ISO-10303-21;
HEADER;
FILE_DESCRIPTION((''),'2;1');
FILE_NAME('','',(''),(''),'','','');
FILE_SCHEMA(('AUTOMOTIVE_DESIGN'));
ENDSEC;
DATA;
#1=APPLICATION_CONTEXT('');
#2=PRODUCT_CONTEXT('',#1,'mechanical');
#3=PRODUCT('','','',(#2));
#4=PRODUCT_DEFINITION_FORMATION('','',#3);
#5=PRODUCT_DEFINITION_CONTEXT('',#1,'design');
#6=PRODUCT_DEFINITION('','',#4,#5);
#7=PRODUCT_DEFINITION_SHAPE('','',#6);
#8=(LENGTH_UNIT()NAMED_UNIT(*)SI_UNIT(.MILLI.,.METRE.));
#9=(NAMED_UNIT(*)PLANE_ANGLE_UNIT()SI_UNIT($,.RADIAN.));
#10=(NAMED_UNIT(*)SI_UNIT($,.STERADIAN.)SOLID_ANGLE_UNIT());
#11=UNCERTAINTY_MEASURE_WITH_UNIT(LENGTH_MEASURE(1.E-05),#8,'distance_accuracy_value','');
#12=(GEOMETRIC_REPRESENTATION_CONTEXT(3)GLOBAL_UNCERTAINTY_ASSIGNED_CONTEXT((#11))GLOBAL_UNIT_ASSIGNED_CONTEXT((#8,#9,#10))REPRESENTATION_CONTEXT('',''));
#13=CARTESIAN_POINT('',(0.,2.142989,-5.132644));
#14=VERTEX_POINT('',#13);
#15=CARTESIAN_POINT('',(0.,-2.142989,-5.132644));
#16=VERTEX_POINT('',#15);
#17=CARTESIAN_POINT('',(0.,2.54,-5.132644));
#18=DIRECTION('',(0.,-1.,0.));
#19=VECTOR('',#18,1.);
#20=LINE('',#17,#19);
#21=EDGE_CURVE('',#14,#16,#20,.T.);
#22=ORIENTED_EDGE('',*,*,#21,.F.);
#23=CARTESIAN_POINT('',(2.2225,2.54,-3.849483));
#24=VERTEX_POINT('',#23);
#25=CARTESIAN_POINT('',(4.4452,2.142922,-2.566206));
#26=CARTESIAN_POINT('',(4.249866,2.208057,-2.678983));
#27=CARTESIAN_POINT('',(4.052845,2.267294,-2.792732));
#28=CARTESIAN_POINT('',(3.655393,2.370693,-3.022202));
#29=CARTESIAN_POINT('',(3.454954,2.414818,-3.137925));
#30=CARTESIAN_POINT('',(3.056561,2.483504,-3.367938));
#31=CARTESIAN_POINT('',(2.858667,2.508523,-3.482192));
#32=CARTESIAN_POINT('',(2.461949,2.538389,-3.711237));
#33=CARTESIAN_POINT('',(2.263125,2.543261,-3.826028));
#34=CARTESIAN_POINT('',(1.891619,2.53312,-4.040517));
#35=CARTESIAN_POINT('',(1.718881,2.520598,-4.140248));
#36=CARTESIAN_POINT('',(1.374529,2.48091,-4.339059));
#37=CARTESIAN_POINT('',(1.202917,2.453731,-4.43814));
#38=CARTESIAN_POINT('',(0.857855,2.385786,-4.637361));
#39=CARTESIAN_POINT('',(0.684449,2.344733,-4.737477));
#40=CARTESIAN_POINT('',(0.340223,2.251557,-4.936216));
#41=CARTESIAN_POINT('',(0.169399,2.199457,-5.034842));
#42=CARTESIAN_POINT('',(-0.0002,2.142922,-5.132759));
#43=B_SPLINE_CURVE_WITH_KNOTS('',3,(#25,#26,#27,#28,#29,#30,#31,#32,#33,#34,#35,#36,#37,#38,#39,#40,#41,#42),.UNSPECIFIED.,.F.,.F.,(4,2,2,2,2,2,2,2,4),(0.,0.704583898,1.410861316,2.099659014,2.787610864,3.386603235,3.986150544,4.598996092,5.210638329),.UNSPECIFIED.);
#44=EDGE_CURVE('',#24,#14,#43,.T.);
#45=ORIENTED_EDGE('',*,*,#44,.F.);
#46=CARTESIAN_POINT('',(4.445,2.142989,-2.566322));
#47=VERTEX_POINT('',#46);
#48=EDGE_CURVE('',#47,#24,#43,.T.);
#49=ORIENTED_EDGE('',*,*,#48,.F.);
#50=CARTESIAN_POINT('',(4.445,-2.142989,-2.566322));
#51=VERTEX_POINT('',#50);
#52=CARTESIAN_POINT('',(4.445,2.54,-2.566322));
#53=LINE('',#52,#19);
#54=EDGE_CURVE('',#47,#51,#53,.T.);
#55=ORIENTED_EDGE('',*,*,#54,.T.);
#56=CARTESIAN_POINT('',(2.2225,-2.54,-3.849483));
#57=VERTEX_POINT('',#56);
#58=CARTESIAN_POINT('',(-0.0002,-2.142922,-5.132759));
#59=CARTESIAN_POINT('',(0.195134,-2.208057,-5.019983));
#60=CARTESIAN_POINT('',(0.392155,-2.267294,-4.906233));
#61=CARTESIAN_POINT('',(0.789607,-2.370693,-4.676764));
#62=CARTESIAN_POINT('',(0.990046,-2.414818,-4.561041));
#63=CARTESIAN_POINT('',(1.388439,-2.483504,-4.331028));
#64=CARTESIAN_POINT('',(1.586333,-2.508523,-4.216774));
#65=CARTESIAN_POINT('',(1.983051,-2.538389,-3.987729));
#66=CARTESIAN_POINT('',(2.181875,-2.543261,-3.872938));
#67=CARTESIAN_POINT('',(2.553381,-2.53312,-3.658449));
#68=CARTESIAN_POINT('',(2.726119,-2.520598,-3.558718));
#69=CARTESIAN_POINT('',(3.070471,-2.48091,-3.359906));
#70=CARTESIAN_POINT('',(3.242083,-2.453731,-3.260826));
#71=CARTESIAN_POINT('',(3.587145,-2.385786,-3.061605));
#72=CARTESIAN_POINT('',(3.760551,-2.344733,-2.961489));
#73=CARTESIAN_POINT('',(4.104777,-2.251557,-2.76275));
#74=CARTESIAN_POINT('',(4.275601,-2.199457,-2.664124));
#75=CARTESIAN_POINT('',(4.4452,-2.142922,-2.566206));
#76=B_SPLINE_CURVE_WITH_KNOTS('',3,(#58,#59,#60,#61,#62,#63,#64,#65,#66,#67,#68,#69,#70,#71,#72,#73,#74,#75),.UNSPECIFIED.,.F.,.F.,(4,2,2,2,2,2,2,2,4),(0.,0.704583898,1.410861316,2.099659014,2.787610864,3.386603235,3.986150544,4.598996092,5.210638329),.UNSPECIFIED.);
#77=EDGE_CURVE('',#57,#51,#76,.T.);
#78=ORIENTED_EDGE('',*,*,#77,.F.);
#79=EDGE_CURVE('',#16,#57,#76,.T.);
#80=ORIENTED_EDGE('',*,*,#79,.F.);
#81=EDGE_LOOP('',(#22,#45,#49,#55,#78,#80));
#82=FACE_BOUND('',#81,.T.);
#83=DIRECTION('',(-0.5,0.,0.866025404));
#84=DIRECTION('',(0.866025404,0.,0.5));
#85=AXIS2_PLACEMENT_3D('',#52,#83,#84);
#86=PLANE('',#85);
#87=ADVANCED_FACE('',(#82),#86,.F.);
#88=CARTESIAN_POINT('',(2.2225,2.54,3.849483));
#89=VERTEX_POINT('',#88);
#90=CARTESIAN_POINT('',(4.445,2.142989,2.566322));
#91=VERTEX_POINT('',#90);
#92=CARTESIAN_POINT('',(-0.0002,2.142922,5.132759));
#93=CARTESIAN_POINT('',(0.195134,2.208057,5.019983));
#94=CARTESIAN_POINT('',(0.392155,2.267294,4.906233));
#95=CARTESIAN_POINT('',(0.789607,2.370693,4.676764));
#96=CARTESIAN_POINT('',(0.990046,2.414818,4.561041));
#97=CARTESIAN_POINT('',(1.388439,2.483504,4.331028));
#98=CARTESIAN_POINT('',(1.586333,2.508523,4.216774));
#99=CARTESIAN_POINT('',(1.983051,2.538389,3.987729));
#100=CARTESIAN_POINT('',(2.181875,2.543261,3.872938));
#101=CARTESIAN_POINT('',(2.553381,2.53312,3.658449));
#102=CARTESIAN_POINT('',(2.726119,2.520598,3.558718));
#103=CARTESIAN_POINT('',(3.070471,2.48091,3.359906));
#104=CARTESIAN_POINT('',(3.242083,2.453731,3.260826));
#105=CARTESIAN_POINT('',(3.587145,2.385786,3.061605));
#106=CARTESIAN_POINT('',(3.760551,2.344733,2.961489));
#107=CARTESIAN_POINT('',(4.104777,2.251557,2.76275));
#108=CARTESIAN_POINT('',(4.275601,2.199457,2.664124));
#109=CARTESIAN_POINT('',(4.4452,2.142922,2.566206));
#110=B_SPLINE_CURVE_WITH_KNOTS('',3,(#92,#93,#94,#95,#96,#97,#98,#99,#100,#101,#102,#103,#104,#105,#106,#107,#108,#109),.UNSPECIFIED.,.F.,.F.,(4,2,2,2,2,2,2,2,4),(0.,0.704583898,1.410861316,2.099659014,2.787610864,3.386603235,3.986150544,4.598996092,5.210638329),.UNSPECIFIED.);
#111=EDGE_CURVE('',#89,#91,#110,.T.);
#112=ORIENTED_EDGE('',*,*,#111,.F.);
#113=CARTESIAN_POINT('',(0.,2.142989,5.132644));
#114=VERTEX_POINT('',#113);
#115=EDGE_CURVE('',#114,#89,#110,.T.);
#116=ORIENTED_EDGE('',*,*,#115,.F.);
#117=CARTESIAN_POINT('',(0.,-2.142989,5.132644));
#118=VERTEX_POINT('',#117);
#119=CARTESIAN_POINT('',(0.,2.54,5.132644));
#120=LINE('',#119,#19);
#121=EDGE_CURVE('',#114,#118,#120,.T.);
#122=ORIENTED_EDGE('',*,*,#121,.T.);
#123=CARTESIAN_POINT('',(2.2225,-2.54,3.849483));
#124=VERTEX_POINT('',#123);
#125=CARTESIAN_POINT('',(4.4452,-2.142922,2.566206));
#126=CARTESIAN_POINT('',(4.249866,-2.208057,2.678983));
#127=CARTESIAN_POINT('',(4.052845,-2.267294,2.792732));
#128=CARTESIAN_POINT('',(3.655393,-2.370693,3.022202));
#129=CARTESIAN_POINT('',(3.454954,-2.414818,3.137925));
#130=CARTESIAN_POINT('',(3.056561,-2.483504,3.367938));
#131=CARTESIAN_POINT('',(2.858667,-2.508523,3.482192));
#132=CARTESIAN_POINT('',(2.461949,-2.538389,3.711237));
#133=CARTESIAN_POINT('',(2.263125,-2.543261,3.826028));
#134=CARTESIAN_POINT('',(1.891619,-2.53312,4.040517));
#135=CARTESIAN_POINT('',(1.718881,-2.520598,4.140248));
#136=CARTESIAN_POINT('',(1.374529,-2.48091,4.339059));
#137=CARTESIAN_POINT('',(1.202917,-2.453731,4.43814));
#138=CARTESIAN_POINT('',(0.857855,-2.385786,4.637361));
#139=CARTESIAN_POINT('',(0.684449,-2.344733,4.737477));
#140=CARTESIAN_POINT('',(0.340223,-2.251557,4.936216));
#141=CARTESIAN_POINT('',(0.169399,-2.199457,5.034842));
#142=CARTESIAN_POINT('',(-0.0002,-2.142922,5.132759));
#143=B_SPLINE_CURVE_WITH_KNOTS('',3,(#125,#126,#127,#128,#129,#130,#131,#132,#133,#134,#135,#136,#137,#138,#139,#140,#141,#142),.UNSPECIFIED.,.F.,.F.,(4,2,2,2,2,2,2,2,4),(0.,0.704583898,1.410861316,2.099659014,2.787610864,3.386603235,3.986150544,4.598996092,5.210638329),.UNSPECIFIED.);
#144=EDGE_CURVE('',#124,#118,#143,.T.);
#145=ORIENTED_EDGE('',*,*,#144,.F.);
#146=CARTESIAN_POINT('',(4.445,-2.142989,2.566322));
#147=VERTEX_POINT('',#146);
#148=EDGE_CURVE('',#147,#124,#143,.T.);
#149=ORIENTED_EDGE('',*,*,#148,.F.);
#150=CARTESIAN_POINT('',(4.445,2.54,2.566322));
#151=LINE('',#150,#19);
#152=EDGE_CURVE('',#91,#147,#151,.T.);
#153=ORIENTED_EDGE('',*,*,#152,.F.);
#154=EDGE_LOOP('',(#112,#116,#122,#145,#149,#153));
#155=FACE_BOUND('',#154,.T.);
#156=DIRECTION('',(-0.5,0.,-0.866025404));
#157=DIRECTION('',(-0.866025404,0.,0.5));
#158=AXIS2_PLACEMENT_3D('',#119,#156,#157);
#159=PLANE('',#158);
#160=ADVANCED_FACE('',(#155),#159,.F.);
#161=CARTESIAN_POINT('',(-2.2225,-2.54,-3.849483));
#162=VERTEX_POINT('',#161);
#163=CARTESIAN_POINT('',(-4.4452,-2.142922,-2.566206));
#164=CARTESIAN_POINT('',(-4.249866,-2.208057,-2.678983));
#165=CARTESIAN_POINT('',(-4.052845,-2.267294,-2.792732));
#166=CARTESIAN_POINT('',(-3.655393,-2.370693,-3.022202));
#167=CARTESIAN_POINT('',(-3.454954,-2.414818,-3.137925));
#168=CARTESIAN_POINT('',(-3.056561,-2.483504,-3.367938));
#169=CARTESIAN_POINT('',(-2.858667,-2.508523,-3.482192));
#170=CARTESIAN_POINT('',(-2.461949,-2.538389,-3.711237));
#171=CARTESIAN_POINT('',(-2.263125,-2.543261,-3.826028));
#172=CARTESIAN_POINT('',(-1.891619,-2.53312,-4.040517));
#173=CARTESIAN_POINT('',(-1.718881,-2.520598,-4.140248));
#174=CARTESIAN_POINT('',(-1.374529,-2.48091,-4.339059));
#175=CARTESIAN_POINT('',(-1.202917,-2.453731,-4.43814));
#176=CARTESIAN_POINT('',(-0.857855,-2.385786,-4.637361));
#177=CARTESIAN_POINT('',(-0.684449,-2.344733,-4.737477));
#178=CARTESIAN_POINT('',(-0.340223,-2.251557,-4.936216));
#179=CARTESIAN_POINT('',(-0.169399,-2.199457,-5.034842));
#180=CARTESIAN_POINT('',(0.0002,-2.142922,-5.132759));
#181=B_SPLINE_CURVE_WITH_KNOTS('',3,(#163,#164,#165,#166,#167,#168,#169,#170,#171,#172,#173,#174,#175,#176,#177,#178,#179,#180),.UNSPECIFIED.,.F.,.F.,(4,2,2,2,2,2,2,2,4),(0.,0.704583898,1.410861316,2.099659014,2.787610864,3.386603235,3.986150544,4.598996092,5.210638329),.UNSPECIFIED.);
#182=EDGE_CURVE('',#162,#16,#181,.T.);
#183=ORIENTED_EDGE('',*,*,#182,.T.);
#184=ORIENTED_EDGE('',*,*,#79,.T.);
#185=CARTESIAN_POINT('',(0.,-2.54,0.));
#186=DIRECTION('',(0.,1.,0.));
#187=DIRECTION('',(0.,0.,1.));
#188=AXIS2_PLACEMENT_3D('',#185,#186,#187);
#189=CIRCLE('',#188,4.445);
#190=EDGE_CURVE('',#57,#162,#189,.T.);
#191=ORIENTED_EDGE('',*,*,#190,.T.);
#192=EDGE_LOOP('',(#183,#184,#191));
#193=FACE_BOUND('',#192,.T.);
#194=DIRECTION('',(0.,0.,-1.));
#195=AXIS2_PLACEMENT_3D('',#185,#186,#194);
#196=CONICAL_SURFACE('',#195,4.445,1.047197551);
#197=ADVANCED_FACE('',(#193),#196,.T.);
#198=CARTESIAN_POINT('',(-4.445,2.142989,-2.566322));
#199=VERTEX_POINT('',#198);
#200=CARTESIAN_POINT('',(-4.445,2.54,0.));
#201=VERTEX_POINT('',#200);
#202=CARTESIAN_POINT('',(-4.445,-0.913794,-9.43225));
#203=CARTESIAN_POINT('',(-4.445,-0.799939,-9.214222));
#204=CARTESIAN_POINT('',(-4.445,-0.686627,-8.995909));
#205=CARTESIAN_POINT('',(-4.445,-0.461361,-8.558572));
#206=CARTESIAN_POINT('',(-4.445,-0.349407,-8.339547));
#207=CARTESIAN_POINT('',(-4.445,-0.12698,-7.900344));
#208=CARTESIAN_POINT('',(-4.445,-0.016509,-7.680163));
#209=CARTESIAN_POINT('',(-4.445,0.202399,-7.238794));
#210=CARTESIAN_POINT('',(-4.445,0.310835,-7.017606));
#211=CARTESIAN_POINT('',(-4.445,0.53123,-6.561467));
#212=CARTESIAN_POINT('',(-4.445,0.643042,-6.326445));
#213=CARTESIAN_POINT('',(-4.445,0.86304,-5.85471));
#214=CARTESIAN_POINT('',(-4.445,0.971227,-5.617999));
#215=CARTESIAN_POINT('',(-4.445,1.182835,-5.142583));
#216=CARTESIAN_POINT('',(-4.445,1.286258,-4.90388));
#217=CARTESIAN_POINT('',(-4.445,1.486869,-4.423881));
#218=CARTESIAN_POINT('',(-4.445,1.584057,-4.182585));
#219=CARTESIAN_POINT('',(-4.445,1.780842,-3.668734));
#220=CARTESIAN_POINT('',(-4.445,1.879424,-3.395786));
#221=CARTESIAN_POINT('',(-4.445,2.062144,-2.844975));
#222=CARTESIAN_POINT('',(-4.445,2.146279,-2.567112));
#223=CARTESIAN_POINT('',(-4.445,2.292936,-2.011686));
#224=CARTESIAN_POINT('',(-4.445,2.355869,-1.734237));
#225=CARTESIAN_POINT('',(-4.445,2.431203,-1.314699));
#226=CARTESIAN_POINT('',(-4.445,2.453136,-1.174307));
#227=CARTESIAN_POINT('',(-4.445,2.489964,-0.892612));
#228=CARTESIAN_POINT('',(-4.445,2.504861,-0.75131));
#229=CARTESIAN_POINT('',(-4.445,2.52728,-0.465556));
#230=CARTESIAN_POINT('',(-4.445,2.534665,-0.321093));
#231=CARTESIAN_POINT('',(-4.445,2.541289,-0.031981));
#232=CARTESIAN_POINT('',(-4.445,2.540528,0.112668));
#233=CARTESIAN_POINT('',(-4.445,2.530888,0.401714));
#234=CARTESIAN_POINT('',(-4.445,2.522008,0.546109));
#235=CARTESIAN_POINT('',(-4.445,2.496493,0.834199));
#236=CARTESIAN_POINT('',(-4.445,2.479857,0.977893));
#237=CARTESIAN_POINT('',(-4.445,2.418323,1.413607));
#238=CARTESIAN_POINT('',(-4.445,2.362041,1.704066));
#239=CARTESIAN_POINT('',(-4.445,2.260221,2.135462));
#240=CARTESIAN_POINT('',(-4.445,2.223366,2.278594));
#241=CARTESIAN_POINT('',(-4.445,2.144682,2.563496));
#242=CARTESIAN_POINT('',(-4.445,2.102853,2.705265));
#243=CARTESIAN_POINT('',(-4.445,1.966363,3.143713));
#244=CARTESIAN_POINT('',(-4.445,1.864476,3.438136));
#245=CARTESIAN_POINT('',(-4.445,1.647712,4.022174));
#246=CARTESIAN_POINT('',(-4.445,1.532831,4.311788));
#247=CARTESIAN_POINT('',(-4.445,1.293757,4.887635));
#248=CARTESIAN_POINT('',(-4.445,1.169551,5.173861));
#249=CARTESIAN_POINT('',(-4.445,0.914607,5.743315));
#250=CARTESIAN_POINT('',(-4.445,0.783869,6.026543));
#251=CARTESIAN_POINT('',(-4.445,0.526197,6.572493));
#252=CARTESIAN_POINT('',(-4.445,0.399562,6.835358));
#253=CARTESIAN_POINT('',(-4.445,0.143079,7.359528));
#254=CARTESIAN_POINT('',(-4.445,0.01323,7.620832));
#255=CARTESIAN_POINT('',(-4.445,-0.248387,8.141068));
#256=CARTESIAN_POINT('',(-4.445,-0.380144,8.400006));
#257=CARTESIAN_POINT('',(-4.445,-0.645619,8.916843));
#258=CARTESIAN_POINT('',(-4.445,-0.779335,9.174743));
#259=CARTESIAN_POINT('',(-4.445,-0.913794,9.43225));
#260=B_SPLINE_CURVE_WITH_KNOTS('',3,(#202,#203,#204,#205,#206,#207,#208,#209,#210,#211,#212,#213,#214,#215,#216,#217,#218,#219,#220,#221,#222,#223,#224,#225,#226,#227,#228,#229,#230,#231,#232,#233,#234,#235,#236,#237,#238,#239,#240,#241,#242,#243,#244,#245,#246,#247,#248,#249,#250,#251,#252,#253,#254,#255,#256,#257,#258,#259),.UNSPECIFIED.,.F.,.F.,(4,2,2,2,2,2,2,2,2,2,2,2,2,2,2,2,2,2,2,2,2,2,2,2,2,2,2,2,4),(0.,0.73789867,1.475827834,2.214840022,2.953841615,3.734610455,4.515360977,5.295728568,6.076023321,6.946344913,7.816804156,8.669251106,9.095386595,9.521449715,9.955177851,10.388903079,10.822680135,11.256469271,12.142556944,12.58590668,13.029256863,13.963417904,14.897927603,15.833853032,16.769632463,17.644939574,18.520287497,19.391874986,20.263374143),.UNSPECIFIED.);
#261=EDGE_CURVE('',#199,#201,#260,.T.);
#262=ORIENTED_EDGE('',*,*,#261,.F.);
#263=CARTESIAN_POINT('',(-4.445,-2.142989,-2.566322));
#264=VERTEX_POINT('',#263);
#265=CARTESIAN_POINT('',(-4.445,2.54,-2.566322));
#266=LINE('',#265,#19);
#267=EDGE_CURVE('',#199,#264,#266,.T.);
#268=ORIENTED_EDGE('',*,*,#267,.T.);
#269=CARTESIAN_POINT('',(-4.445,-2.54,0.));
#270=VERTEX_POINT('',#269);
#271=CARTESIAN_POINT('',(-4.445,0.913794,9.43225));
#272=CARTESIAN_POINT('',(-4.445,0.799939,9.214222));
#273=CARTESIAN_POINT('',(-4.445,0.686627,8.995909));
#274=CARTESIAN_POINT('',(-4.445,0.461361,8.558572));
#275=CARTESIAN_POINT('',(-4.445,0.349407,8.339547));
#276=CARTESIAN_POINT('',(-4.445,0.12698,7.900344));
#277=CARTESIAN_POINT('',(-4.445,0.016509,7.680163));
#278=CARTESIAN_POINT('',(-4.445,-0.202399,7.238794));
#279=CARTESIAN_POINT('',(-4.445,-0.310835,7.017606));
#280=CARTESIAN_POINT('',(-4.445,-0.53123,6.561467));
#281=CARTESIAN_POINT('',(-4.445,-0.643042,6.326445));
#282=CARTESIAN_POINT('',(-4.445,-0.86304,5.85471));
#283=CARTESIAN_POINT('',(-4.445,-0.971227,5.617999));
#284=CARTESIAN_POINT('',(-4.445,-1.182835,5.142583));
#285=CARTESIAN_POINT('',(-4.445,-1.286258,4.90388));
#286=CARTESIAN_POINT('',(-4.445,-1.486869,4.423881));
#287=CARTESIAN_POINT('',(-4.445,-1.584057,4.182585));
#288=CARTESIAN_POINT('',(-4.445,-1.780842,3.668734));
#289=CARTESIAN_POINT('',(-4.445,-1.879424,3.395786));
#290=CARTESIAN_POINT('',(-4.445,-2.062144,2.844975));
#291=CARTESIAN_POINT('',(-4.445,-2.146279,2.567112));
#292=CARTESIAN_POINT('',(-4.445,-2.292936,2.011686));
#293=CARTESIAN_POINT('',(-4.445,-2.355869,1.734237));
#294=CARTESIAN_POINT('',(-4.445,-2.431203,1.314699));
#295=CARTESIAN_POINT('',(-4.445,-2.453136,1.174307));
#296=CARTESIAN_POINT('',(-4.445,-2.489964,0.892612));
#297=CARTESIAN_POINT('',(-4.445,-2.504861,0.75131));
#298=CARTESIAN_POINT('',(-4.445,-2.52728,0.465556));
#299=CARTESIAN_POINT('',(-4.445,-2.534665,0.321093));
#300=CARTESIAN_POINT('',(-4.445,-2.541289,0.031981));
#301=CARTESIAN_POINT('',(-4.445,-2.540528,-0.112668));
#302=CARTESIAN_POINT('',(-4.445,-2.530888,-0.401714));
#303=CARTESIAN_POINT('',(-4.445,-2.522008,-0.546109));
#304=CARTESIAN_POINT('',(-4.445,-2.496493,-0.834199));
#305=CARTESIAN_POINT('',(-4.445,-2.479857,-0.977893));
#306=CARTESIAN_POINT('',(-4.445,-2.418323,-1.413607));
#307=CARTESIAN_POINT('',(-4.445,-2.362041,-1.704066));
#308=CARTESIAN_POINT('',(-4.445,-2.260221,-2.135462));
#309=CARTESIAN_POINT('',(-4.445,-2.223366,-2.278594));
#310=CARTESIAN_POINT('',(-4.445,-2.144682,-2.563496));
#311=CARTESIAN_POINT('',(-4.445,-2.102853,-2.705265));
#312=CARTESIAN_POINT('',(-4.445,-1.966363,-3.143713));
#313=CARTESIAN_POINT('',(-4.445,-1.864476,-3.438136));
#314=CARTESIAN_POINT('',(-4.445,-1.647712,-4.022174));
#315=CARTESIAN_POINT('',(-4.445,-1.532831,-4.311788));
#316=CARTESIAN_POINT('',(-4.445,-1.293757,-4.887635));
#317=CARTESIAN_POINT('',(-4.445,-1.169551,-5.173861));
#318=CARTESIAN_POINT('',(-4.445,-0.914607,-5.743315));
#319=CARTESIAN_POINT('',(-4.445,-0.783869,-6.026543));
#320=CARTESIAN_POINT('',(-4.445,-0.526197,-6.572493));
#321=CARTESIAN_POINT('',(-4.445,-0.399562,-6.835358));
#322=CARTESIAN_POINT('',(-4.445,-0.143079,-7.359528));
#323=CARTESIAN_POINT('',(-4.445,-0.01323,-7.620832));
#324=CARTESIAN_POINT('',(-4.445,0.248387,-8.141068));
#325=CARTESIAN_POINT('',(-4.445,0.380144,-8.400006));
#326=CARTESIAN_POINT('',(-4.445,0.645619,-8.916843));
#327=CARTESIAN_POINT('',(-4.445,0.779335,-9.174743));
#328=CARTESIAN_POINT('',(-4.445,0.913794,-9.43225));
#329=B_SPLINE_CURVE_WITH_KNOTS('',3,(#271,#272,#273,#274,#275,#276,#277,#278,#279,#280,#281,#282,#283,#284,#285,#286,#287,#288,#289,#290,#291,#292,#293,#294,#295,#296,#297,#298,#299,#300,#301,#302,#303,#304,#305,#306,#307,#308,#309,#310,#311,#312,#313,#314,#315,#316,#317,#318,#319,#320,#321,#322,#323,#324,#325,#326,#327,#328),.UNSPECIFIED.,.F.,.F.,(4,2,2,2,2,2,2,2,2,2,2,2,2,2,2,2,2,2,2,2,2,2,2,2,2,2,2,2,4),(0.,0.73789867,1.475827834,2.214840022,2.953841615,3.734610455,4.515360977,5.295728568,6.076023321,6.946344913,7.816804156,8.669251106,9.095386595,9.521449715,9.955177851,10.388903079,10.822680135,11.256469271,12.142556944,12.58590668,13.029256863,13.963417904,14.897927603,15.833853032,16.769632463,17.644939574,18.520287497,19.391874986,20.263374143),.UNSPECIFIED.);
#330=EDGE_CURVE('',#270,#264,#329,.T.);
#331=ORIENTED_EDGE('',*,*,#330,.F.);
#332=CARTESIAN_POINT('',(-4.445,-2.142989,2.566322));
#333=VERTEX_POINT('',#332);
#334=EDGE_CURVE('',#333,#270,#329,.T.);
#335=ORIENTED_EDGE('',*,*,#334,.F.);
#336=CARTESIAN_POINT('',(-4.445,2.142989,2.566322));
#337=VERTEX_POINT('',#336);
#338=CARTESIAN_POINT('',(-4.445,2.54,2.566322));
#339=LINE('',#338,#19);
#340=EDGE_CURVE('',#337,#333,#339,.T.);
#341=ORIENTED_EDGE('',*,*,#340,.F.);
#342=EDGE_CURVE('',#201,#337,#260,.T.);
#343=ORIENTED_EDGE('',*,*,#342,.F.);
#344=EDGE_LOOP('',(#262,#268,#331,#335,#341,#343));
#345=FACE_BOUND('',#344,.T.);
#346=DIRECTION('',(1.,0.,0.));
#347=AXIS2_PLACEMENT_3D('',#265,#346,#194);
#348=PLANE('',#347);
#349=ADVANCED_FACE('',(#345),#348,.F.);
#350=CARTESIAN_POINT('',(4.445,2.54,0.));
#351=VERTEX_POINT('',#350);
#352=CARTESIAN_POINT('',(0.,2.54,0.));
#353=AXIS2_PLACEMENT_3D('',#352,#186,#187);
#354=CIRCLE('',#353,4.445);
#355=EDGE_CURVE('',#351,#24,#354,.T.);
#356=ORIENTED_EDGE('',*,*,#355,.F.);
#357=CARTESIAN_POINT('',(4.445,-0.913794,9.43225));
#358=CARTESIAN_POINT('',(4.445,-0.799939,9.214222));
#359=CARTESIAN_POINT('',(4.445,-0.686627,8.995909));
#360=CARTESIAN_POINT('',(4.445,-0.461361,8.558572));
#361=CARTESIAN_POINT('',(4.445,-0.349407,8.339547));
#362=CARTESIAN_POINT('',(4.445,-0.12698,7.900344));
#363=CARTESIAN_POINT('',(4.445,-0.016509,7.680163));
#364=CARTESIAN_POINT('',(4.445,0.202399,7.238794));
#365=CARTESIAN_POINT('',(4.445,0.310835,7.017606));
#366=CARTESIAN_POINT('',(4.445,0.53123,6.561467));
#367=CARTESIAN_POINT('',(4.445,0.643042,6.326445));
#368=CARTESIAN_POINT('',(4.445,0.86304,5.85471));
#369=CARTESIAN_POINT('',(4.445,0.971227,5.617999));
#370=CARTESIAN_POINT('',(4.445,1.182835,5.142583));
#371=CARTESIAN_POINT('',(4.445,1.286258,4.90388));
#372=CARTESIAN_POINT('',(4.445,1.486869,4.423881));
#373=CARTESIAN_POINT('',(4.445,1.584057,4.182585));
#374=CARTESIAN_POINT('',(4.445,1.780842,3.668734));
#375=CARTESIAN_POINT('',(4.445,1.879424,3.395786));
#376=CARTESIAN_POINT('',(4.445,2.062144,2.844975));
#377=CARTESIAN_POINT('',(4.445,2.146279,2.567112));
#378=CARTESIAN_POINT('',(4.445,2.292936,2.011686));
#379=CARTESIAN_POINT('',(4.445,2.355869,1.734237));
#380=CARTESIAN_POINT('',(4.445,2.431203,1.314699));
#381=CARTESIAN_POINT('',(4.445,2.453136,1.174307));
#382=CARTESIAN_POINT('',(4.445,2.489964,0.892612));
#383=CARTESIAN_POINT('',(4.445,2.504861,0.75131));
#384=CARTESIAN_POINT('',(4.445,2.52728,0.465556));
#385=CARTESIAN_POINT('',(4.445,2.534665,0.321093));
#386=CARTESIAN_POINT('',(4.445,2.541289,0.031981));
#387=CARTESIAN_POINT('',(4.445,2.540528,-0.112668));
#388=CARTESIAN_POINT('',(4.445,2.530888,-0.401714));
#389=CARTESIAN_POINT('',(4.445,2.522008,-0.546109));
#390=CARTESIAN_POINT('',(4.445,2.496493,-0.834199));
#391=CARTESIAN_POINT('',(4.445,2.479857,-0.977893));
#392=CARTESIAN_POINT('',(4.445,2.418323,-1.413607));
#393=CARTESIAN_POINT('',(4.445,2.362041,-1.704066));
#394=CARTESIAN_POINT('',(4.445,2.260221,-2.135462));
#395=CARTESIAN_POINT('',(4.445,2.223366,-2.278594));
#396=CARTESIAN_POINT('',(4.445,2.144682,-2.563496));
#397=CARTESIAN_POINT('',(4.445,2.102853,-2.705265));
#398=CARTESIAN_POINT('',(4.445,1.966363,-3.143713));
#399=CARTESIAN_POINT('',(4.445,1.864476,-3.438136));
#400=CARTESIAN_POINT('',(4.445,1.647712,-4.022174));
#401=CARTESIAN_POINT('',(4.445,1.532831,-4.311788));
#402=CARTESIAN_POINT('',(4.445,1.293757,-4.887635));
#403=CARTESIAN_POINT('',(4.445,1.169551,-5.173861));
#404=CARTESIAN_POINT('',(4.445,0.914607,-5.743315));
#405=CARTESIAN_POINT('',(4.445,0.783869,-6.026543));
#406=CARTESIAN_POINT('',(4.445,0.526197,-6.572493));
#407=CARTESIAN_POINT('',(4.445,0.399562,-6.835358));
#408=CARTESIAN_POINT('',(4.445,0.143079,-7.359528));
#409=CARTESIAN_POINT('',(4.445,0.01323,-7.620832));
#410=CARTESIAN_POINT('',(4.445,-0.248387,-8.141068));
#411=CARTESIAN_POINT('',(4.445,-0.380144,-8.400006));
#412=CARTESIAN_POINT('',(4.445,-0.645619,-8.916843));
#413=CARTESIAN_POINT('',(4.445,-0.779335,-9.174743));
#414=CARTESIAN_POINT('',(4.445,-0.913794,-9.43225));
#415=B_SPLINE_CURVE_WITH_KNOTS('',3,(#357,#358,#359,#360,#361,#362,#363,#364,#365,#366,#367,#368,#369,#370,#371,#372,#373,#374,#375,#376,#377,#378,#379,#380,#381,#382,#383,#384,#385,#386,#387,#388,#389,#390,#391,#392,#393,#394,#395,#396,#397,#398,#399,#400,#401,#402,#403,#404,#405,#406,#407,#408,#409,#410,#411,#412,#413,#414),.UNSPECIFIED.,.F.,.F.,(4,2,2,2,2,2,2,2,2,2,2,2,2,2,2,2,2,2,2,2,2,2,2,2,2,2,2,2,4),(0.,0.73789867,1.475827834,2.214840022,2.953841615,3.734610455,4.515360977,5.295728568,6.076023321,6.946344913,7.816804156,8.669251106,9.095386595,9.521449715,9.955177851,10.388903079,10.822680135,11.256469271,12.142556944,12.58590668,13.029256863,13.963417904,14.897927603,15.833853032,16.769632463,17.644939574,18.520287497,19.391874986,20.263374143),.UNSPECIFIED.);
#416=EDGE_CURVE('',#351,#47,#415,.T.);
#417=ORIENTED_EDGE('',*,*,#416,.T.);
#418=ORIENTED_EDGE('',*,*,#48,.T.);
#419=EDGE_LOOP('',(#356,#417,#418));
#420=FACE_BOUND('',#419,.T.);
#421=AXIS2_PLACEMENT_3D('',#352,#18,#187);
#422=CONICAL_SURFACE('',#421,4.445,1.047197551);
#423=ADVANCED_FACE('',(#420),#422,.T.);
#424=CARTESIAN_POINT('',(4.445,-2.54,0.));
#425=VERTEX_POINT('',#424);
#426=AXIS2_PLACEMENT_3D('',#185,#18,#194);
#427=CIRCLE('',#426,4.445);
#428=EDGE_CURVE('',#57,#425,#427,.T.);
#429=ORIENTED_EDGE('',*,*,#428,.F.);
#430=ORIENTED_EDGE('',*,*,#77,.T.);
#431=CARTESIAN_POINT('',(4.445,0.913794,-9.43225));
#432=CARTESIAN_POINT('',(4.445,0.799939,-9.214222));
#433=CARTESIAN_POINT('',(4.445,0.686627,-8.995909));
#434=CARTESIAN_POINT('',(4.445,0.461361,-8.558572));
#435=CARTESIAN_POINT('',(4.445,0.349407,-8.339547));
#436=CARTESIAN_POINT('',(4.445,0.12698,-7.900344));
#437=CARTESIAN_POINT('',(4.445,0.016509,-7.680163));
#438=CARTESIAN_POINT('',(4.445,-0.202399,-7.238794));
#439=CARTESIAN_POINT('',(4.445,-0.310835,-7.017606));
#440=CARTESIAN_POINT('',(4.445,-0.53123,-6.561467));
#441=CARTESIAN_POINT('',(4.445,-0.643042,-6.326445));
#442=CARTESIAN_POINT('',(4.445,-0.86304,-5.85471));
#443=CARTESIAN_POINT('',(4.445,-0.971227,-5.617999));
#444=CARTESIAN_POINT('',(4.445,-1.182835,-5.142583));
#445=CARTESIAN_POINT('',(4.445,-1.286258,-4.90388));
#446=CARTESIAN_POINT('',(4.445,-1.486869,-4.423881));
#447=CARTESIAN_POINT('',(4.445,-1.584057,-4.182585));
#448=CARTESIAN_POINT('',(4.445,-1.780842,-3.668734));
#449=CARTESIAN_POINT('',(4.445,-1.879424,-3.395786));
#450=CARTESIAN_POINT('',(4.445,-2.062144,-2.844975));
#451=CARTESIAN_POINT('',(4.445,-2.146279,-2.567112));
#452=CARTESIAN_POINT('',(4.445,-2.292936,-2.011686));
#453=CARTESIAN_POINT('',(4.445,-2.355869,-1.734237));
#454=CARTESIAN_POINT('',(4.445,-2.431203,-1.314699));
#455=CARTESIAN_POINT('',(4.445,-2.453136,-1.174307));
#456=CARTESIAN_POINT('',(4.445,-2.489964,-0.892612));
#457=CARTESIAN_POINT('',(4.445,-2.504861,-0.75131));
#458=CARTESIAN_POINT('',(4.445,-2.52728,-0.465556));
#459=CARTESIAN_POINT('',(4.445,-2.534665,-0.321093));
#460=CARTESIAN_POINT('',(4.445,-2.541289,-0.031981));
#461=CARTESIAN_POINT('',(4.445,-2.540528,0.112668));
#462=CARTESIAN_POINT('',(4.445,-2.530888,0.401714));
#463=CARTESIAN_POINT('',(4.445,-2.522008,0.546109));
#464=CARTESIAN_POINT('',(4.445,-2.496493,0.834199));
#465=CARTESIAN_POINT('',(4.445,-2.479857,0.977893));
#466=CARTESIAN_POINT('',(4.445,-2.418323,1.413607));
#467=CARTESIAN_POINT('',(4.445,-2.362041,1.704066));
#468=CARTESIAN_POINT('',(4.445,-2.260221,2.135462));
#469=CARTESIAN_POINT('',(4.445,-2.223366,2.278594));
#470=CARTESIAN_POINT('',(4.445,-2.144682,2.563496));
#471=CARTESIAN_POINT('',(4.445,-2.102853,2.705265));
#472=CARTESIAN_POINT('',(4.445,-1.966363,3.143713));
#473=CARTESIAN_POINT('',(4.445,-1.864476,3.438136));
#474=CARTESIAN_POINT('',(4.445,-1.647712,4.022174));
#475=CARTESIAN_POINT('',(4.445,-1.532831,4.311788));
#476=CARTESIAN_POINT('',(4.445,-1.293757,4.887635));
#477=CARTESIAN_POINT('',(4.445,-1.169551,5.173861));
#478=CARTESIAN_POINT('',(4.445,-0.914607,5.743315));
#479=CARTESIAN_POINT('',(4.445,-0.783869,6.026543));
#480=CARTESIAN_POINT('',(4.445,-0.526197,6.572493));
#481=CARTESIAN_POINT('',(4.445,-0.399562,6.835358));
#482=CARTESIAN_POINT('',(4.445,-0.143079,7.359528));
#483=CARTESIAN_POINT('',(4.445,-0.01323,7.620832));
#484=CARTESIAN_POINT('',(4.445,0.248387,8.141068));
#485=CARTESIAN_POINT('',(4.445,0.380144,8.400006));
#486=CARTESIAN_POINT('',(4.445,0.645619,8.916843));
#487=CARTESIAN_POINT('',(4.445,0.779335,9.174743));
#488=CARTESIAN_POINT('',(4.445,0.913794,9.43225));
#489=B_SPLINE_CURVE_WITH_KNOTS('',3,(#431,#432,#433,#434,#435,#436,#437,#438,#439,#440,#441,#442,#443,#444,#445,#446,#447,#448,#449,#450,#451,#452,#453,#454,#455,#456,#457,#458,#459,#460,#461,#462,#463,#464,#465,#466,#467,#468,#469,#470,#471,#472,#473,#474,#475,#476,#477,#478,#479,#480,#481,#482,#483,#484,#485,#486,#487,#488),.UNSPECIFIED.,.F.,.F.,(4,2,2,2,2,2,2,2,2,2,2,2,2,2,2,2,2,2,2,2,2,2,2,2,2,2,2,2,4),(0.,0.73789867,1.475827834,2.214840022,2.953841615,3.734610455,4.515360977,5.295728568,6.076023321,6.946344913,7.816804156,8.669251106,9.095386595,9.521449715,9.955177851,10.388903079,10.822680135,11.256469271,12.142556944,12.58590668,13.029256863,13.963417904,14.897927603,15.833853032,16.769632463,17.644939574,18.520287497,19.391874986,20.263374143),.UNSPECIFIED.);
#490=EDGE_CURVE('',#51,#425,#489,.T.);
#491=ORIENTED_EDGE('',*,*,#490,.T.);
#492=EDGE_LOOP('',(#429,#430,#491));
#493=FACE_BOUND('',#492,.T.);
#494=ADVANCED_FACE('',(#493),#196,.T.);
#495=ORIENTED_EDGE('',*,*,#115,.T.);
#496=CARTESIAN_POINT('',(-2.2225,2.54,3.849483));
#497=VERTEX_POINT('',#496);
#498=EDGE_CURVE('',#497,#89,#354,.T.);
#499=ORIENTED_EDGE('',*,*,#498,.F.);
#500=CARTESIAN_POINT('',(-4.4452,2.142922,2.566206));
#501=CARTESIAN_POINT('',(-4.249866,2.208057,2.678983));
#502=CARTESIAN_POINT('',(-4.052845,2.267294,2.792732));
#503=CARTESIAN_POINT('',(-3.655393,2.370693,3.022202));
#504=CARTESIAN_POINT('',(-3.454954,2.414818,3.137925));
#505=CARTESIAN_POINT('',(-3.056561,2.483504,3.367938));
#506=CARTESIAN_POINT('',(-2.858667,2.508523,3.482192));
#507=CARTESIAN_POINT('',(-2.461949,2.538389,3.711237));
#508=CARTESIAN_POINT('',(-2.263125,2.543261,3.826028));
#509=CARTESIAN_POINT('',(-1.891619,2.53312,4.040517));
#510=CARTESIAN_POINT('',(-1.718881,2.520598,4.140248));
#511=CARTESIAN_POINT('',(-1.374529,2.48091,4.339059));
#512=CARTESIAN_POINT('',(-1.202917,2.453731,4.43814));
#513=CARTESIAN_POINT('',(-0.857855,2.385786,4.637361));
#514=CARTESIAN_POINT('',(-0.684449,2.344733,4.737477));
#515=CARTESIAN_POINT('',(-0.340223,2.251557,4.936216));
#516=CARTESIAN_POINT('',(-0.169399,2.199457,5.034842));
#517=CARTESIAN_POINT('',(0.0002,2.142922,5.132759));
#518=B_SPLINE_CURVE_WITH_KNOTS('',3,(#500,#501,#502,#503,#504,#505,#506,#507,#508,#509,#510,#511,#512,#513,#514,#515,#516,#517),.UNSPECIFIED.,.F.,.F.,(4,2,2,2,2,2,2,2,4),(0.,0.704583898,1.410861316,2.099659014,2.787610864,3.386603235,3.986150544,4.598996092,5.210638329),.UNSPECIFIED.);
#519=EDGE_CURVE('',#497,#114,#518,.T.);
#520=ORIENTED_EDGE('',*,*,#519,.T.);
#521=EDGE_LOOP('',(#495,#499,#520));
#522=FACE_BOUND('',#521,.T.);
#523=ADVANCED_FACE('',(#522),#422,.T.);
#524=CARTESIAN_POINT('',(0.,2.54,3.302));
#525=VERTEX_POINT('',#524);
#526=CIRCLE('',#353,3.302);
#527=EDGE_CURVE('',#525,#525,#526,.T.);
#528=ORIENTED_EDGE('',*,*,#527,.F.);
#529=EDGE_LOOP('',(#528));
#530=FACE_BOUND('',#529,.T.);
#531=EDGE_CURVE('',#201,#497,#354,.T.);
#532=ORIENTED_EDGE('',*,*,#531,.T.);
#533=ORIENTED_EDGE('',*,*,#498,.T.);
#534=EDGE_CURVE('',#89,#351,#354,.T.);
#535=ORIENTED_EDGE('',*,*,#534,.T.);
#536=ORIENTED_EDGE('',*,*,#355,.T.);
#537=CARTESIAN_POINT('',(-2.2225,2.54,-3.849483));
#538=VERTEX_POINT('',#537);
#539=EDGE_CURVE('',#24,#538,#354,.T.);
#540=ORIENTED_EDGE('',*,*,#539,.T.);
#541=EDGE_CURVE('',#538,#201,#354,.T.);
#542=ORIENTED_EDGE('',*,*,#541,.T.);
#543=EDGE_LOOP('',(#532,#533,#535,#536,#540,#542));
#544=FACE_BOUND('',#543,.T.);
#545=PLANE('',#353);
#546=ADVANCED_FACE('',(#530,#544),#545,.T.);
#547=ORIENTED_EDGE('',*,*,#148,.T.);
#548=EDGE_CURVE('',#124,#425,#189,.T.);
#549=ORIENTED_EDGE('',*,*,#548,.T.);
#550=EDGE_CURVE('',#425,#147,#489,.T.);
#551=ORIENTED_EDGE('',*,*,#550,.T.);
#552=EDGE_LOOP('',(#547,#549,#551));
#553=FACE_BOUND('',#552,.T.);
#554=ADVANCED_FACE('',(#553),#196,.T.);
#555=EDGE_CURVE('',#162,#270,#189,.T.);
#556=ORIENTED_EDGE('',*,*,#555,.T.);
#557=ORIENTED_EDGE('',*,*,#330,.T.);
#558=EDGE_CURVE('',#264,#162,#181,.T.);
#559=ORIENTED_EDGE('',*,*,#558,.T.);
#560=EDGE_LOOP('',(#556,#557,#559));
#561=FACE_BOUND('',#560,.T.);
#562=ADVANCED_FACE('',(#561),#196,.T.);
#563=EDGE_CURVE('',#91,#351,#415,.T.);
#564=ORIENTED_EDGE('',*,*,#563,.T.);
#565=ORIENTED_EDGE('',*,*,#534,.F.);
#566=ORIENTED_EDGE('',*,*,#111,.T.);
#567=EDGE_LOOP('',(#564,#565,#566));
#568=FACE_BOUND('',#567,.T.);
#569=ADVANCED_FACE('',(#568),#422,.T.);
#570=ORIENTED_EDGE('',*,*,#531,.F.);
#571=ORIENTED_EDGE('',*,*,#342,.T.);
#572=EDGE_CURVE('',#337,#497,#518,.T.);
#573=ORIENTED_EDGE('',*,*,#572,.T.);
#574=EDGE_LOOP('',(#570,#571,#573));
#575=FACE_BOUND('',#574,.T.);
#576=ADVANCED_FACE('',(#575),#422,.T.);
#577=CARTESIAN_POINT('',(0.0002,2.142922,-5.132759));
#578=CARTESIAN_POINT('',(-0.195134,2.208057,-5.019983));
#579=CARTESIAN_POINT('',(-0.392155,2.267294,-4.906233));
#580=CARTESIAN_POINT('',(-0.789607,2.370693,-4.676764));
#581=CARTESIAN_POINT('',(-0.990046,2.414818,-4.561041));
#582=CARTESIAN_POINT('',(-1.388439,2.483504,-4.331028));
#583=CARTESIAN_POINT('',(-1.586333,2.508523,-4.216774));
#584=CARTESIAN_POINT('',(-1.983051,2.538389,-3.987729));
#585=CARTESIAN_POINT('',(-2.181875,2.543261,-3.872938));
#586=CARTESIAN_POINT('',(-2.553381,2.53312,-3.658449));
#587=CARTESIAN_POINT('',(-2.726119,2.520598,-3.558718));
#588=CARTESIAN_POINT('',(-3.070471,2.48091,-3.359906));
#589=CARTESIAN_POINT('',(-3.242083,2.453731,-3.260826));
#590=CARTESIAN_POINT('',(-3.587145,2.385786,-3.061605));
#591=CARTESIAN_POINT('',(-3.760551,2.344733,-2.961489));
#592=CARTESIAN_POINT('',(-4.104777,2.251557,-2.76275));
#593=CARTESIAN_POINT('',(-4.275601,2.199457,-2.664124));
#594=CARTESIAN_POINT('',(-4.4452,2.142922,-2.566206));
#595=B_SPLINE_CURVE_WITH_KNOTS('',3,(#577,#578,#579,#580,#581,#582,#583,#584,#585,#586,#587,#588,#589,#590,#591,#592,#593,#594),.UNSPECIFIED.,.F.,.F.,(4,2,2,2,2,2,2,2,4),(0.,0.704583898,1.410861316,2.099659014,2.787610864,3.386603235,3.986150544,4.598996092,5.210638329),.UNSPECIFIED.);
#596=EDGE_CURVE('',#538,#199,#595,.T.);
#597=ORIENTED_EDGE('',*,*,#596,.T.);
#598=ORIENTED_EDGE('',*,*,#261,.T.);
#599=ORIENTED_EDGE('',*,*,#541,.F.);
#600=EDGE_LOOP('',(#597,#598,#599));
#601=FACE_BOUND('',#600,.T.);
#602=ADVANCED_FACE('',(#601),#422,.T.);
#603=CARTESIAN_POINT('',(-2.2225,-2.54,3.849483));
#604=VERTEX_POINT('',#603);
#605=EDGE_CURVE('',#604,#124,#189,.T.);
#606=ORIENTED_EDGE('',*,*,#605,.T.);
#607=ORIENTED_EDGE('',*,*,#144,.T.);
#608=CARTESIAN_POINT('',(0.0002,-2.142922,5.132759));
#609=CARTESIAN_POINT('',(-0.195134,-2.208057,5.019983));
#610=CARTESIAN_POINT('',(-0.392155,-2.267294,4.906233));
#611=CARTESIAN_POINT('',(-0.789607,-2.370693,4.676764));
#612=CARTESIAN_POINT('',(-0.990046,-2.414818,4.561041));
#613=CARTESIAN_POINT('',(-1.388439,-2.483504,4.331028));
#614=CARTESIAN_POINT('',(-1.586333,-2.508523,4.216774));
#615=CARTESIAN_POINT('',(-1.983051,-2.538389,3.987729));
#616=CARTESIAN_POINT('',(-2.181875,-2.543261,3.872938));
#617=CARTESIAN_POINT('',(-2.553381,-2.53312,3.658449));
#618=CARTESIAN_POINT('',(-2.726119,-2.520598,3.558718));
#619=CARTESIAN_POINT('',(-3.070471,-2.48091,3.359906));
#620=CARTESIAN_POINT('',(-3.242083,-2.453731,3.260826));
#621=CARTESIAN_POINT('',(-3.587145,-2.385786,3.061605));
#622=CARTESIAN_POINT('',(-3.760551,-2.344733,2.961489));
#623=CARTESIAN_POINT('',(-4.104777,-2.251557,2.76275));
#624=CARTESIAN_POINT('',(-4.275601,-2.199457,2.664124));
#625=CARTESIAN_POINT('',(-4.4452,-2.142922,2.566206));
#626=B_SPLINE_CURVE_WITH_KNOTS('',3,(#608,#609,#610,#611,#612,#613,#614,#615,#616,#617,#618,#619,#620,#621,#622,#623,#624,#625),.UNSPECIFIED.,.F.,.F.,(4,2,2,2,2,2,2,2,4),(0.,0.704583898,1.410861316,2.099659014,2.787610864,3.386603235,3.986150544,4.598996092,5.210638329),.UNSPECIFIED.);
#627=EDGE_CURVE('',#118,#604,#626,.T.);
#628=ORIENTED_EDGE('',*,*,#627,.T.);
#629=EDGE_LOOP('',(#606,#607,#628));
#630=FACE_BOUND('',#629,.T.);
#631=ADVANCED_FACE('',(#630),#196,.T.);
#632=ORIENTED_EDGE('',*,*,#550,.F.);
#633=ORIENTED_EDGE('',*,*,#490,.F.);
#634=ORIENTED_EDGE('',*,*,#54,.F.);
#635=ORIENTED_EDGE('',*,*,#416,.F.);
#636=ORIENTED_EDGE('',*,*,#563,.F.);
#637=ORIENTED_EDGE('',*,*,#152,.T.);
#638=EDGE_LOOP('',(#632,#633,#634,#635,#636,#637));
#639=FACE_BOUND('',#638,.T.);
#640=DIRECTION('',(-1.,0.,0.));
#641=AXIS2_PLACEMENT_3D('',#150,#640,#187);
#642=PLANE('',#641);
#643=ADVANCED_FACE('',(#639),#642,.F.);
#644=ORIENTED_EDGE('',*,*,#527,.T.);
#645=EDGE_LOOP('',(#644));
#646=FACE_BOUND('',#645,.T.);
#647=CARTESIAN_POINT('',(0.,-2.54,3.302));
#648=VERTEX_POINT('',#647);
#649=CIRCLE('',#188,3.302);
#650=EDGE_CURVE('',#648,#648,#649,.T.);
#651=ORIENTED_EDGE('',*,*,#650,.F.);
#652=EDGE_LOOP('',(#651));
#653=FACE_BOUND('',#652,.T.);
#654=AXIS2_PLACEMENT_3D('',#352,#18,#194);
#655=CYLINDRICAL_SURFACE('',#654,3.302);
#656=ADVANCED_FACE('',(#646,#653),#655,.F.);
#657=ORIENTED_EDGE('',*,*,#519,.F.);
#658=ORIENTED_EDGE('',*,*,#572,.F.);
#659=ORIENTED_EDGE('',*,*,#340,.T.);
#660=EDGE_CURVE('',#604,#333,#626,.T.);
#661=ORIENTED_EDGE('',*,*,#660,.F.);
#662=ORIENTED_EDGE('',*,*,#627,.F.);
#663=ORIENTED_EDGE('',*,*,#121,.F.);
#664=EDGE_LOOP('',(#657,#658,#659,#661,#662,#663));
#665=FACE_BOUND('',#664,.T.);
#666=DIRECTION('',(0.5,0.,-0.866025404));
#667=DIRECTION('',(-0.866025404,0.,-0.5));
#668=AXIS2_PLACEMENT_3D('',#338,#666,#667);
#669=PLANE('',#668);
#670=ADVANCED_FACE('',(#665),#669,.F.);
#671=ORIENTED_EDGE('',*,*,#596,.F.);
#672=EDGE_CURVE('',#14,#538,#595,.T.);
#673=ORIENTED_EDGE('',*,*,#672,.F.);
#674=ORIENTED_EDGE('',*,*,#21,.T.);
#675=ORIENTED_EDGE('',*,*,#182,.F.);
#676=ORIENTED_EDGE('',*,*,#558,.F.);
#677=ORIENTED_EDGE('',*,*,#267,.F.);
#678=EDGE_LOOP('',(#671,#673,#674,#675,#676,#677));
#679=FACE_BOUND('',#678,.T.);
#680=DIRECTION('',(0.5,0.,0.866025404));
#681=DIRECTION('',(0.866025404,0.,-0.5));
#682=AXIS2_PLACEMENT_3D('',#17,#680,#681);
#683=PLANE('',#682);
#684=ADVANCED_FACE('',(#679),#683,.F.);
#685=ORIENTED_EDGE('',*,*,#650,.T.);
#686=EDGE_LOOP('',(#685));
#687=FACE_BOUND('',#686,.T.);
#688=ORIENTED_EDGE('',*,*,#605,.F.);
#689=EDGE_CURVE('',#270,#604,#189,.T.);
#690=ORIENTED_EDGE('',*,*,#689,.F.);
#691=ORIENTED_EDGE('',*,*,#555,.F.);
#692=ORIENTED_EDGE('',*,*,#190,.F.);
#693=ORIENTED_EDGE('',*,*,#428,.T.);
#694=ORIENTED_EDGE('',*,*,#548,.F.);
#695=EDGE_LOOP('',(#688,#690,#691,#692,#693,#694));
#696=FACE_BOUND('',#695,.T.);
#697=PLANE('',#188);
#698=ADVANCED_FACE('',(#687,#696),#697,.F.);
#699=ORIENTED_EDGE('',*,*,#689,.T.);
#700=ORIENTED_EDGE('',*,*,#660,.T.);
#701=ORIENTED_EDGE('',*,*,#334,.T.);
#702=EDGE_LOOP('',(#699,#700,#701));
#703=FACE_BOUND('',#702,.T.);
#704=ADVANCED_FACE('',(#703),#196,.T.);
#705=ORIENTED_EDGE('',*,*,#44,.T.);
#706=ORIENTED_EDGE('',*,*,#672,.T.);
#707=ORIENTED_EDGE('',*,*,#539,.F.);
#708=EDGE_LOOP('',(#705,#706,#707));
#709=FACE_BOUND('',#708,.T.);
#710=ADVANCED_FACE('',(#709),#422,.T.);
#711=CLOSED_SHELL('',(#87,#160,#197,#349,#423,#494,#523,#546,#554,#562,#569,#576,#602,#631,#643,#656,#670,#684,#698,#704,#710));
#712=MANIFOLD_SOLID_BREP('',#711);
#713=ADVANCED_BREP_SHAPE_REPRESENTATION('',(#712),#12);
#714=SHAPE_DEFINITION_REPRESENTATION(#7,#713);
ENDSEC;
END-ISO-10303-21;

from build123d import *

# Parameters (mm, degrees)
SKETCH1_R           = 3.302
BOSS_EXTRUDE1_DEPTH = 2.54
SKETCH2_OUTSIDE_W   = 31.388
SKETCH2_OUTSIDE_H   = 32.764
SKETCH2_OUTSIDE_R   = 4.445
CUT_EXTRUDE1_DEPTH  = 5.08
CUT_EXTRUDE1_DRAFT  = -60
SKETCH3_OUTSIDE_W   = 31.388
SKETCH3_OUTSIDE_H   = 32.764
SKETCH3_OUTSIDE_R   = 4.445
CUT_EXTRUDE2_DEPTH  = 5.08
CUT_EXTRUDE2_DRAFT  = -60


with BuildPart() as part:
    # Sketch1 → Boss-Extrude1 (new, symmetric)
    with BuildSketch(Plane(origin=(0, 0, 0), x_dir=(1, 0, 0), z_dir=(0, 1, 0))):
        Polygon((0, 5.132643893), (-4.445, 2.566321947), (-4.445, -2.566321947), (0, -5.132643893), (4.445, -2.566321947), (4.445, 2.566321947), align=None)
        with Locations(Location((0, 0, 0), (0, 0, 270))):
            Circle(SKETCH1_R, mode=Mode.SUBTRACT)
    extrude(amount=BOSS_EXTRUDE1_DEPTH, both=True)


with BuildPart() as cut_extrude1_tool:
    # Sketch2 outside → Cut-Extrude1 (with draft: the straight prism first)
    with BuildSketch(Plane(origin=(0, 2.54, 0), x_dir=(1, 0, 0), z_dir=(0, 1, 0))):
        Rectangle(SKETCH2_OUTSIDE_W, SKETCH2_OUTSIDE_H)
        Circle(SKETCH2_OUTSIDE_R, mode=Mode.SUBTRACT)
    extrude(amount=-CUT_EXTRUDE1_DEPTH)
    # Cut-Extrude1: the draft: its side faces are tilted about the plane it starts from
    cut_extrude1_sides = [cut_extrude1_tool.faces().sort_by_distance(p)[0] for p in [
        (0, 0, 16.382),
        (15.694, 0, 0),
        (0, 0, -16.382),
        (-15.694, 0, 0),
        (-4.445, 0, 0),
    ]]
    draft(cut_extrude1_sides, Plane(origin=(0, 2.54, 0), x_dir=(1, 0, 0), z_dir=(0, 1, 0)), CUT_EXTRUDE1_DRAFT)


with BuildPart() as part_1:
    add(part.part)

    # Cut-Extrude1: cut by cut_extrude1_tool
    add(cut_extrude1_tool.part, mode=Mode.SUBTRACT)


with BuildPart() as cut_extrude2_tool:
    # Sketch3 outside → Cut-Extrude2 (with draft: the straight prism first)
    with BuildSketch(Plane(origin=(0, -2.54, 0), x_dir=(-1, 0, 0), z_dir=(0, -1, 0))):
        Rectangle(SKETCH3_OUTSIDE_W, SKETCH3_OUTSIDE_H)
        Circle(SKETCH3_OUTSIDE_R, mode=Mode.SUBTRACT)
    extrude(amount=-CUT_EXTRUDE2_DEPTH)
    # Cut-Extrude2: the draft: its side faces are tilted about the plane it starts from
    cut_extrude2_sides = [cut_extrude2_tool.faces().sort_by_distance(p)[0] for p in [
        (0, 0, 16.382),
        (-15.694, 0, 0),
        (0, 0, -16.382),
        (15.694, 0, 0),
        (4.445, 0, 0),
    ]]
    draft(cut_extrude2_sides, Plane(origin=(0, -2.54, 0), x_dir=(-1, 0, 0), z_dir=(0, -1, 0)), CUT_EXTRUDE2_DRAFT)


with BuildPart() as part_2:
    add(part_1.part)

    # Cut-Extrude2: cut by cut_extrude2_tool
    add(cut_extrude2_tool.part, mode=Mode.SUBTRACT)


solid = part_2.part
